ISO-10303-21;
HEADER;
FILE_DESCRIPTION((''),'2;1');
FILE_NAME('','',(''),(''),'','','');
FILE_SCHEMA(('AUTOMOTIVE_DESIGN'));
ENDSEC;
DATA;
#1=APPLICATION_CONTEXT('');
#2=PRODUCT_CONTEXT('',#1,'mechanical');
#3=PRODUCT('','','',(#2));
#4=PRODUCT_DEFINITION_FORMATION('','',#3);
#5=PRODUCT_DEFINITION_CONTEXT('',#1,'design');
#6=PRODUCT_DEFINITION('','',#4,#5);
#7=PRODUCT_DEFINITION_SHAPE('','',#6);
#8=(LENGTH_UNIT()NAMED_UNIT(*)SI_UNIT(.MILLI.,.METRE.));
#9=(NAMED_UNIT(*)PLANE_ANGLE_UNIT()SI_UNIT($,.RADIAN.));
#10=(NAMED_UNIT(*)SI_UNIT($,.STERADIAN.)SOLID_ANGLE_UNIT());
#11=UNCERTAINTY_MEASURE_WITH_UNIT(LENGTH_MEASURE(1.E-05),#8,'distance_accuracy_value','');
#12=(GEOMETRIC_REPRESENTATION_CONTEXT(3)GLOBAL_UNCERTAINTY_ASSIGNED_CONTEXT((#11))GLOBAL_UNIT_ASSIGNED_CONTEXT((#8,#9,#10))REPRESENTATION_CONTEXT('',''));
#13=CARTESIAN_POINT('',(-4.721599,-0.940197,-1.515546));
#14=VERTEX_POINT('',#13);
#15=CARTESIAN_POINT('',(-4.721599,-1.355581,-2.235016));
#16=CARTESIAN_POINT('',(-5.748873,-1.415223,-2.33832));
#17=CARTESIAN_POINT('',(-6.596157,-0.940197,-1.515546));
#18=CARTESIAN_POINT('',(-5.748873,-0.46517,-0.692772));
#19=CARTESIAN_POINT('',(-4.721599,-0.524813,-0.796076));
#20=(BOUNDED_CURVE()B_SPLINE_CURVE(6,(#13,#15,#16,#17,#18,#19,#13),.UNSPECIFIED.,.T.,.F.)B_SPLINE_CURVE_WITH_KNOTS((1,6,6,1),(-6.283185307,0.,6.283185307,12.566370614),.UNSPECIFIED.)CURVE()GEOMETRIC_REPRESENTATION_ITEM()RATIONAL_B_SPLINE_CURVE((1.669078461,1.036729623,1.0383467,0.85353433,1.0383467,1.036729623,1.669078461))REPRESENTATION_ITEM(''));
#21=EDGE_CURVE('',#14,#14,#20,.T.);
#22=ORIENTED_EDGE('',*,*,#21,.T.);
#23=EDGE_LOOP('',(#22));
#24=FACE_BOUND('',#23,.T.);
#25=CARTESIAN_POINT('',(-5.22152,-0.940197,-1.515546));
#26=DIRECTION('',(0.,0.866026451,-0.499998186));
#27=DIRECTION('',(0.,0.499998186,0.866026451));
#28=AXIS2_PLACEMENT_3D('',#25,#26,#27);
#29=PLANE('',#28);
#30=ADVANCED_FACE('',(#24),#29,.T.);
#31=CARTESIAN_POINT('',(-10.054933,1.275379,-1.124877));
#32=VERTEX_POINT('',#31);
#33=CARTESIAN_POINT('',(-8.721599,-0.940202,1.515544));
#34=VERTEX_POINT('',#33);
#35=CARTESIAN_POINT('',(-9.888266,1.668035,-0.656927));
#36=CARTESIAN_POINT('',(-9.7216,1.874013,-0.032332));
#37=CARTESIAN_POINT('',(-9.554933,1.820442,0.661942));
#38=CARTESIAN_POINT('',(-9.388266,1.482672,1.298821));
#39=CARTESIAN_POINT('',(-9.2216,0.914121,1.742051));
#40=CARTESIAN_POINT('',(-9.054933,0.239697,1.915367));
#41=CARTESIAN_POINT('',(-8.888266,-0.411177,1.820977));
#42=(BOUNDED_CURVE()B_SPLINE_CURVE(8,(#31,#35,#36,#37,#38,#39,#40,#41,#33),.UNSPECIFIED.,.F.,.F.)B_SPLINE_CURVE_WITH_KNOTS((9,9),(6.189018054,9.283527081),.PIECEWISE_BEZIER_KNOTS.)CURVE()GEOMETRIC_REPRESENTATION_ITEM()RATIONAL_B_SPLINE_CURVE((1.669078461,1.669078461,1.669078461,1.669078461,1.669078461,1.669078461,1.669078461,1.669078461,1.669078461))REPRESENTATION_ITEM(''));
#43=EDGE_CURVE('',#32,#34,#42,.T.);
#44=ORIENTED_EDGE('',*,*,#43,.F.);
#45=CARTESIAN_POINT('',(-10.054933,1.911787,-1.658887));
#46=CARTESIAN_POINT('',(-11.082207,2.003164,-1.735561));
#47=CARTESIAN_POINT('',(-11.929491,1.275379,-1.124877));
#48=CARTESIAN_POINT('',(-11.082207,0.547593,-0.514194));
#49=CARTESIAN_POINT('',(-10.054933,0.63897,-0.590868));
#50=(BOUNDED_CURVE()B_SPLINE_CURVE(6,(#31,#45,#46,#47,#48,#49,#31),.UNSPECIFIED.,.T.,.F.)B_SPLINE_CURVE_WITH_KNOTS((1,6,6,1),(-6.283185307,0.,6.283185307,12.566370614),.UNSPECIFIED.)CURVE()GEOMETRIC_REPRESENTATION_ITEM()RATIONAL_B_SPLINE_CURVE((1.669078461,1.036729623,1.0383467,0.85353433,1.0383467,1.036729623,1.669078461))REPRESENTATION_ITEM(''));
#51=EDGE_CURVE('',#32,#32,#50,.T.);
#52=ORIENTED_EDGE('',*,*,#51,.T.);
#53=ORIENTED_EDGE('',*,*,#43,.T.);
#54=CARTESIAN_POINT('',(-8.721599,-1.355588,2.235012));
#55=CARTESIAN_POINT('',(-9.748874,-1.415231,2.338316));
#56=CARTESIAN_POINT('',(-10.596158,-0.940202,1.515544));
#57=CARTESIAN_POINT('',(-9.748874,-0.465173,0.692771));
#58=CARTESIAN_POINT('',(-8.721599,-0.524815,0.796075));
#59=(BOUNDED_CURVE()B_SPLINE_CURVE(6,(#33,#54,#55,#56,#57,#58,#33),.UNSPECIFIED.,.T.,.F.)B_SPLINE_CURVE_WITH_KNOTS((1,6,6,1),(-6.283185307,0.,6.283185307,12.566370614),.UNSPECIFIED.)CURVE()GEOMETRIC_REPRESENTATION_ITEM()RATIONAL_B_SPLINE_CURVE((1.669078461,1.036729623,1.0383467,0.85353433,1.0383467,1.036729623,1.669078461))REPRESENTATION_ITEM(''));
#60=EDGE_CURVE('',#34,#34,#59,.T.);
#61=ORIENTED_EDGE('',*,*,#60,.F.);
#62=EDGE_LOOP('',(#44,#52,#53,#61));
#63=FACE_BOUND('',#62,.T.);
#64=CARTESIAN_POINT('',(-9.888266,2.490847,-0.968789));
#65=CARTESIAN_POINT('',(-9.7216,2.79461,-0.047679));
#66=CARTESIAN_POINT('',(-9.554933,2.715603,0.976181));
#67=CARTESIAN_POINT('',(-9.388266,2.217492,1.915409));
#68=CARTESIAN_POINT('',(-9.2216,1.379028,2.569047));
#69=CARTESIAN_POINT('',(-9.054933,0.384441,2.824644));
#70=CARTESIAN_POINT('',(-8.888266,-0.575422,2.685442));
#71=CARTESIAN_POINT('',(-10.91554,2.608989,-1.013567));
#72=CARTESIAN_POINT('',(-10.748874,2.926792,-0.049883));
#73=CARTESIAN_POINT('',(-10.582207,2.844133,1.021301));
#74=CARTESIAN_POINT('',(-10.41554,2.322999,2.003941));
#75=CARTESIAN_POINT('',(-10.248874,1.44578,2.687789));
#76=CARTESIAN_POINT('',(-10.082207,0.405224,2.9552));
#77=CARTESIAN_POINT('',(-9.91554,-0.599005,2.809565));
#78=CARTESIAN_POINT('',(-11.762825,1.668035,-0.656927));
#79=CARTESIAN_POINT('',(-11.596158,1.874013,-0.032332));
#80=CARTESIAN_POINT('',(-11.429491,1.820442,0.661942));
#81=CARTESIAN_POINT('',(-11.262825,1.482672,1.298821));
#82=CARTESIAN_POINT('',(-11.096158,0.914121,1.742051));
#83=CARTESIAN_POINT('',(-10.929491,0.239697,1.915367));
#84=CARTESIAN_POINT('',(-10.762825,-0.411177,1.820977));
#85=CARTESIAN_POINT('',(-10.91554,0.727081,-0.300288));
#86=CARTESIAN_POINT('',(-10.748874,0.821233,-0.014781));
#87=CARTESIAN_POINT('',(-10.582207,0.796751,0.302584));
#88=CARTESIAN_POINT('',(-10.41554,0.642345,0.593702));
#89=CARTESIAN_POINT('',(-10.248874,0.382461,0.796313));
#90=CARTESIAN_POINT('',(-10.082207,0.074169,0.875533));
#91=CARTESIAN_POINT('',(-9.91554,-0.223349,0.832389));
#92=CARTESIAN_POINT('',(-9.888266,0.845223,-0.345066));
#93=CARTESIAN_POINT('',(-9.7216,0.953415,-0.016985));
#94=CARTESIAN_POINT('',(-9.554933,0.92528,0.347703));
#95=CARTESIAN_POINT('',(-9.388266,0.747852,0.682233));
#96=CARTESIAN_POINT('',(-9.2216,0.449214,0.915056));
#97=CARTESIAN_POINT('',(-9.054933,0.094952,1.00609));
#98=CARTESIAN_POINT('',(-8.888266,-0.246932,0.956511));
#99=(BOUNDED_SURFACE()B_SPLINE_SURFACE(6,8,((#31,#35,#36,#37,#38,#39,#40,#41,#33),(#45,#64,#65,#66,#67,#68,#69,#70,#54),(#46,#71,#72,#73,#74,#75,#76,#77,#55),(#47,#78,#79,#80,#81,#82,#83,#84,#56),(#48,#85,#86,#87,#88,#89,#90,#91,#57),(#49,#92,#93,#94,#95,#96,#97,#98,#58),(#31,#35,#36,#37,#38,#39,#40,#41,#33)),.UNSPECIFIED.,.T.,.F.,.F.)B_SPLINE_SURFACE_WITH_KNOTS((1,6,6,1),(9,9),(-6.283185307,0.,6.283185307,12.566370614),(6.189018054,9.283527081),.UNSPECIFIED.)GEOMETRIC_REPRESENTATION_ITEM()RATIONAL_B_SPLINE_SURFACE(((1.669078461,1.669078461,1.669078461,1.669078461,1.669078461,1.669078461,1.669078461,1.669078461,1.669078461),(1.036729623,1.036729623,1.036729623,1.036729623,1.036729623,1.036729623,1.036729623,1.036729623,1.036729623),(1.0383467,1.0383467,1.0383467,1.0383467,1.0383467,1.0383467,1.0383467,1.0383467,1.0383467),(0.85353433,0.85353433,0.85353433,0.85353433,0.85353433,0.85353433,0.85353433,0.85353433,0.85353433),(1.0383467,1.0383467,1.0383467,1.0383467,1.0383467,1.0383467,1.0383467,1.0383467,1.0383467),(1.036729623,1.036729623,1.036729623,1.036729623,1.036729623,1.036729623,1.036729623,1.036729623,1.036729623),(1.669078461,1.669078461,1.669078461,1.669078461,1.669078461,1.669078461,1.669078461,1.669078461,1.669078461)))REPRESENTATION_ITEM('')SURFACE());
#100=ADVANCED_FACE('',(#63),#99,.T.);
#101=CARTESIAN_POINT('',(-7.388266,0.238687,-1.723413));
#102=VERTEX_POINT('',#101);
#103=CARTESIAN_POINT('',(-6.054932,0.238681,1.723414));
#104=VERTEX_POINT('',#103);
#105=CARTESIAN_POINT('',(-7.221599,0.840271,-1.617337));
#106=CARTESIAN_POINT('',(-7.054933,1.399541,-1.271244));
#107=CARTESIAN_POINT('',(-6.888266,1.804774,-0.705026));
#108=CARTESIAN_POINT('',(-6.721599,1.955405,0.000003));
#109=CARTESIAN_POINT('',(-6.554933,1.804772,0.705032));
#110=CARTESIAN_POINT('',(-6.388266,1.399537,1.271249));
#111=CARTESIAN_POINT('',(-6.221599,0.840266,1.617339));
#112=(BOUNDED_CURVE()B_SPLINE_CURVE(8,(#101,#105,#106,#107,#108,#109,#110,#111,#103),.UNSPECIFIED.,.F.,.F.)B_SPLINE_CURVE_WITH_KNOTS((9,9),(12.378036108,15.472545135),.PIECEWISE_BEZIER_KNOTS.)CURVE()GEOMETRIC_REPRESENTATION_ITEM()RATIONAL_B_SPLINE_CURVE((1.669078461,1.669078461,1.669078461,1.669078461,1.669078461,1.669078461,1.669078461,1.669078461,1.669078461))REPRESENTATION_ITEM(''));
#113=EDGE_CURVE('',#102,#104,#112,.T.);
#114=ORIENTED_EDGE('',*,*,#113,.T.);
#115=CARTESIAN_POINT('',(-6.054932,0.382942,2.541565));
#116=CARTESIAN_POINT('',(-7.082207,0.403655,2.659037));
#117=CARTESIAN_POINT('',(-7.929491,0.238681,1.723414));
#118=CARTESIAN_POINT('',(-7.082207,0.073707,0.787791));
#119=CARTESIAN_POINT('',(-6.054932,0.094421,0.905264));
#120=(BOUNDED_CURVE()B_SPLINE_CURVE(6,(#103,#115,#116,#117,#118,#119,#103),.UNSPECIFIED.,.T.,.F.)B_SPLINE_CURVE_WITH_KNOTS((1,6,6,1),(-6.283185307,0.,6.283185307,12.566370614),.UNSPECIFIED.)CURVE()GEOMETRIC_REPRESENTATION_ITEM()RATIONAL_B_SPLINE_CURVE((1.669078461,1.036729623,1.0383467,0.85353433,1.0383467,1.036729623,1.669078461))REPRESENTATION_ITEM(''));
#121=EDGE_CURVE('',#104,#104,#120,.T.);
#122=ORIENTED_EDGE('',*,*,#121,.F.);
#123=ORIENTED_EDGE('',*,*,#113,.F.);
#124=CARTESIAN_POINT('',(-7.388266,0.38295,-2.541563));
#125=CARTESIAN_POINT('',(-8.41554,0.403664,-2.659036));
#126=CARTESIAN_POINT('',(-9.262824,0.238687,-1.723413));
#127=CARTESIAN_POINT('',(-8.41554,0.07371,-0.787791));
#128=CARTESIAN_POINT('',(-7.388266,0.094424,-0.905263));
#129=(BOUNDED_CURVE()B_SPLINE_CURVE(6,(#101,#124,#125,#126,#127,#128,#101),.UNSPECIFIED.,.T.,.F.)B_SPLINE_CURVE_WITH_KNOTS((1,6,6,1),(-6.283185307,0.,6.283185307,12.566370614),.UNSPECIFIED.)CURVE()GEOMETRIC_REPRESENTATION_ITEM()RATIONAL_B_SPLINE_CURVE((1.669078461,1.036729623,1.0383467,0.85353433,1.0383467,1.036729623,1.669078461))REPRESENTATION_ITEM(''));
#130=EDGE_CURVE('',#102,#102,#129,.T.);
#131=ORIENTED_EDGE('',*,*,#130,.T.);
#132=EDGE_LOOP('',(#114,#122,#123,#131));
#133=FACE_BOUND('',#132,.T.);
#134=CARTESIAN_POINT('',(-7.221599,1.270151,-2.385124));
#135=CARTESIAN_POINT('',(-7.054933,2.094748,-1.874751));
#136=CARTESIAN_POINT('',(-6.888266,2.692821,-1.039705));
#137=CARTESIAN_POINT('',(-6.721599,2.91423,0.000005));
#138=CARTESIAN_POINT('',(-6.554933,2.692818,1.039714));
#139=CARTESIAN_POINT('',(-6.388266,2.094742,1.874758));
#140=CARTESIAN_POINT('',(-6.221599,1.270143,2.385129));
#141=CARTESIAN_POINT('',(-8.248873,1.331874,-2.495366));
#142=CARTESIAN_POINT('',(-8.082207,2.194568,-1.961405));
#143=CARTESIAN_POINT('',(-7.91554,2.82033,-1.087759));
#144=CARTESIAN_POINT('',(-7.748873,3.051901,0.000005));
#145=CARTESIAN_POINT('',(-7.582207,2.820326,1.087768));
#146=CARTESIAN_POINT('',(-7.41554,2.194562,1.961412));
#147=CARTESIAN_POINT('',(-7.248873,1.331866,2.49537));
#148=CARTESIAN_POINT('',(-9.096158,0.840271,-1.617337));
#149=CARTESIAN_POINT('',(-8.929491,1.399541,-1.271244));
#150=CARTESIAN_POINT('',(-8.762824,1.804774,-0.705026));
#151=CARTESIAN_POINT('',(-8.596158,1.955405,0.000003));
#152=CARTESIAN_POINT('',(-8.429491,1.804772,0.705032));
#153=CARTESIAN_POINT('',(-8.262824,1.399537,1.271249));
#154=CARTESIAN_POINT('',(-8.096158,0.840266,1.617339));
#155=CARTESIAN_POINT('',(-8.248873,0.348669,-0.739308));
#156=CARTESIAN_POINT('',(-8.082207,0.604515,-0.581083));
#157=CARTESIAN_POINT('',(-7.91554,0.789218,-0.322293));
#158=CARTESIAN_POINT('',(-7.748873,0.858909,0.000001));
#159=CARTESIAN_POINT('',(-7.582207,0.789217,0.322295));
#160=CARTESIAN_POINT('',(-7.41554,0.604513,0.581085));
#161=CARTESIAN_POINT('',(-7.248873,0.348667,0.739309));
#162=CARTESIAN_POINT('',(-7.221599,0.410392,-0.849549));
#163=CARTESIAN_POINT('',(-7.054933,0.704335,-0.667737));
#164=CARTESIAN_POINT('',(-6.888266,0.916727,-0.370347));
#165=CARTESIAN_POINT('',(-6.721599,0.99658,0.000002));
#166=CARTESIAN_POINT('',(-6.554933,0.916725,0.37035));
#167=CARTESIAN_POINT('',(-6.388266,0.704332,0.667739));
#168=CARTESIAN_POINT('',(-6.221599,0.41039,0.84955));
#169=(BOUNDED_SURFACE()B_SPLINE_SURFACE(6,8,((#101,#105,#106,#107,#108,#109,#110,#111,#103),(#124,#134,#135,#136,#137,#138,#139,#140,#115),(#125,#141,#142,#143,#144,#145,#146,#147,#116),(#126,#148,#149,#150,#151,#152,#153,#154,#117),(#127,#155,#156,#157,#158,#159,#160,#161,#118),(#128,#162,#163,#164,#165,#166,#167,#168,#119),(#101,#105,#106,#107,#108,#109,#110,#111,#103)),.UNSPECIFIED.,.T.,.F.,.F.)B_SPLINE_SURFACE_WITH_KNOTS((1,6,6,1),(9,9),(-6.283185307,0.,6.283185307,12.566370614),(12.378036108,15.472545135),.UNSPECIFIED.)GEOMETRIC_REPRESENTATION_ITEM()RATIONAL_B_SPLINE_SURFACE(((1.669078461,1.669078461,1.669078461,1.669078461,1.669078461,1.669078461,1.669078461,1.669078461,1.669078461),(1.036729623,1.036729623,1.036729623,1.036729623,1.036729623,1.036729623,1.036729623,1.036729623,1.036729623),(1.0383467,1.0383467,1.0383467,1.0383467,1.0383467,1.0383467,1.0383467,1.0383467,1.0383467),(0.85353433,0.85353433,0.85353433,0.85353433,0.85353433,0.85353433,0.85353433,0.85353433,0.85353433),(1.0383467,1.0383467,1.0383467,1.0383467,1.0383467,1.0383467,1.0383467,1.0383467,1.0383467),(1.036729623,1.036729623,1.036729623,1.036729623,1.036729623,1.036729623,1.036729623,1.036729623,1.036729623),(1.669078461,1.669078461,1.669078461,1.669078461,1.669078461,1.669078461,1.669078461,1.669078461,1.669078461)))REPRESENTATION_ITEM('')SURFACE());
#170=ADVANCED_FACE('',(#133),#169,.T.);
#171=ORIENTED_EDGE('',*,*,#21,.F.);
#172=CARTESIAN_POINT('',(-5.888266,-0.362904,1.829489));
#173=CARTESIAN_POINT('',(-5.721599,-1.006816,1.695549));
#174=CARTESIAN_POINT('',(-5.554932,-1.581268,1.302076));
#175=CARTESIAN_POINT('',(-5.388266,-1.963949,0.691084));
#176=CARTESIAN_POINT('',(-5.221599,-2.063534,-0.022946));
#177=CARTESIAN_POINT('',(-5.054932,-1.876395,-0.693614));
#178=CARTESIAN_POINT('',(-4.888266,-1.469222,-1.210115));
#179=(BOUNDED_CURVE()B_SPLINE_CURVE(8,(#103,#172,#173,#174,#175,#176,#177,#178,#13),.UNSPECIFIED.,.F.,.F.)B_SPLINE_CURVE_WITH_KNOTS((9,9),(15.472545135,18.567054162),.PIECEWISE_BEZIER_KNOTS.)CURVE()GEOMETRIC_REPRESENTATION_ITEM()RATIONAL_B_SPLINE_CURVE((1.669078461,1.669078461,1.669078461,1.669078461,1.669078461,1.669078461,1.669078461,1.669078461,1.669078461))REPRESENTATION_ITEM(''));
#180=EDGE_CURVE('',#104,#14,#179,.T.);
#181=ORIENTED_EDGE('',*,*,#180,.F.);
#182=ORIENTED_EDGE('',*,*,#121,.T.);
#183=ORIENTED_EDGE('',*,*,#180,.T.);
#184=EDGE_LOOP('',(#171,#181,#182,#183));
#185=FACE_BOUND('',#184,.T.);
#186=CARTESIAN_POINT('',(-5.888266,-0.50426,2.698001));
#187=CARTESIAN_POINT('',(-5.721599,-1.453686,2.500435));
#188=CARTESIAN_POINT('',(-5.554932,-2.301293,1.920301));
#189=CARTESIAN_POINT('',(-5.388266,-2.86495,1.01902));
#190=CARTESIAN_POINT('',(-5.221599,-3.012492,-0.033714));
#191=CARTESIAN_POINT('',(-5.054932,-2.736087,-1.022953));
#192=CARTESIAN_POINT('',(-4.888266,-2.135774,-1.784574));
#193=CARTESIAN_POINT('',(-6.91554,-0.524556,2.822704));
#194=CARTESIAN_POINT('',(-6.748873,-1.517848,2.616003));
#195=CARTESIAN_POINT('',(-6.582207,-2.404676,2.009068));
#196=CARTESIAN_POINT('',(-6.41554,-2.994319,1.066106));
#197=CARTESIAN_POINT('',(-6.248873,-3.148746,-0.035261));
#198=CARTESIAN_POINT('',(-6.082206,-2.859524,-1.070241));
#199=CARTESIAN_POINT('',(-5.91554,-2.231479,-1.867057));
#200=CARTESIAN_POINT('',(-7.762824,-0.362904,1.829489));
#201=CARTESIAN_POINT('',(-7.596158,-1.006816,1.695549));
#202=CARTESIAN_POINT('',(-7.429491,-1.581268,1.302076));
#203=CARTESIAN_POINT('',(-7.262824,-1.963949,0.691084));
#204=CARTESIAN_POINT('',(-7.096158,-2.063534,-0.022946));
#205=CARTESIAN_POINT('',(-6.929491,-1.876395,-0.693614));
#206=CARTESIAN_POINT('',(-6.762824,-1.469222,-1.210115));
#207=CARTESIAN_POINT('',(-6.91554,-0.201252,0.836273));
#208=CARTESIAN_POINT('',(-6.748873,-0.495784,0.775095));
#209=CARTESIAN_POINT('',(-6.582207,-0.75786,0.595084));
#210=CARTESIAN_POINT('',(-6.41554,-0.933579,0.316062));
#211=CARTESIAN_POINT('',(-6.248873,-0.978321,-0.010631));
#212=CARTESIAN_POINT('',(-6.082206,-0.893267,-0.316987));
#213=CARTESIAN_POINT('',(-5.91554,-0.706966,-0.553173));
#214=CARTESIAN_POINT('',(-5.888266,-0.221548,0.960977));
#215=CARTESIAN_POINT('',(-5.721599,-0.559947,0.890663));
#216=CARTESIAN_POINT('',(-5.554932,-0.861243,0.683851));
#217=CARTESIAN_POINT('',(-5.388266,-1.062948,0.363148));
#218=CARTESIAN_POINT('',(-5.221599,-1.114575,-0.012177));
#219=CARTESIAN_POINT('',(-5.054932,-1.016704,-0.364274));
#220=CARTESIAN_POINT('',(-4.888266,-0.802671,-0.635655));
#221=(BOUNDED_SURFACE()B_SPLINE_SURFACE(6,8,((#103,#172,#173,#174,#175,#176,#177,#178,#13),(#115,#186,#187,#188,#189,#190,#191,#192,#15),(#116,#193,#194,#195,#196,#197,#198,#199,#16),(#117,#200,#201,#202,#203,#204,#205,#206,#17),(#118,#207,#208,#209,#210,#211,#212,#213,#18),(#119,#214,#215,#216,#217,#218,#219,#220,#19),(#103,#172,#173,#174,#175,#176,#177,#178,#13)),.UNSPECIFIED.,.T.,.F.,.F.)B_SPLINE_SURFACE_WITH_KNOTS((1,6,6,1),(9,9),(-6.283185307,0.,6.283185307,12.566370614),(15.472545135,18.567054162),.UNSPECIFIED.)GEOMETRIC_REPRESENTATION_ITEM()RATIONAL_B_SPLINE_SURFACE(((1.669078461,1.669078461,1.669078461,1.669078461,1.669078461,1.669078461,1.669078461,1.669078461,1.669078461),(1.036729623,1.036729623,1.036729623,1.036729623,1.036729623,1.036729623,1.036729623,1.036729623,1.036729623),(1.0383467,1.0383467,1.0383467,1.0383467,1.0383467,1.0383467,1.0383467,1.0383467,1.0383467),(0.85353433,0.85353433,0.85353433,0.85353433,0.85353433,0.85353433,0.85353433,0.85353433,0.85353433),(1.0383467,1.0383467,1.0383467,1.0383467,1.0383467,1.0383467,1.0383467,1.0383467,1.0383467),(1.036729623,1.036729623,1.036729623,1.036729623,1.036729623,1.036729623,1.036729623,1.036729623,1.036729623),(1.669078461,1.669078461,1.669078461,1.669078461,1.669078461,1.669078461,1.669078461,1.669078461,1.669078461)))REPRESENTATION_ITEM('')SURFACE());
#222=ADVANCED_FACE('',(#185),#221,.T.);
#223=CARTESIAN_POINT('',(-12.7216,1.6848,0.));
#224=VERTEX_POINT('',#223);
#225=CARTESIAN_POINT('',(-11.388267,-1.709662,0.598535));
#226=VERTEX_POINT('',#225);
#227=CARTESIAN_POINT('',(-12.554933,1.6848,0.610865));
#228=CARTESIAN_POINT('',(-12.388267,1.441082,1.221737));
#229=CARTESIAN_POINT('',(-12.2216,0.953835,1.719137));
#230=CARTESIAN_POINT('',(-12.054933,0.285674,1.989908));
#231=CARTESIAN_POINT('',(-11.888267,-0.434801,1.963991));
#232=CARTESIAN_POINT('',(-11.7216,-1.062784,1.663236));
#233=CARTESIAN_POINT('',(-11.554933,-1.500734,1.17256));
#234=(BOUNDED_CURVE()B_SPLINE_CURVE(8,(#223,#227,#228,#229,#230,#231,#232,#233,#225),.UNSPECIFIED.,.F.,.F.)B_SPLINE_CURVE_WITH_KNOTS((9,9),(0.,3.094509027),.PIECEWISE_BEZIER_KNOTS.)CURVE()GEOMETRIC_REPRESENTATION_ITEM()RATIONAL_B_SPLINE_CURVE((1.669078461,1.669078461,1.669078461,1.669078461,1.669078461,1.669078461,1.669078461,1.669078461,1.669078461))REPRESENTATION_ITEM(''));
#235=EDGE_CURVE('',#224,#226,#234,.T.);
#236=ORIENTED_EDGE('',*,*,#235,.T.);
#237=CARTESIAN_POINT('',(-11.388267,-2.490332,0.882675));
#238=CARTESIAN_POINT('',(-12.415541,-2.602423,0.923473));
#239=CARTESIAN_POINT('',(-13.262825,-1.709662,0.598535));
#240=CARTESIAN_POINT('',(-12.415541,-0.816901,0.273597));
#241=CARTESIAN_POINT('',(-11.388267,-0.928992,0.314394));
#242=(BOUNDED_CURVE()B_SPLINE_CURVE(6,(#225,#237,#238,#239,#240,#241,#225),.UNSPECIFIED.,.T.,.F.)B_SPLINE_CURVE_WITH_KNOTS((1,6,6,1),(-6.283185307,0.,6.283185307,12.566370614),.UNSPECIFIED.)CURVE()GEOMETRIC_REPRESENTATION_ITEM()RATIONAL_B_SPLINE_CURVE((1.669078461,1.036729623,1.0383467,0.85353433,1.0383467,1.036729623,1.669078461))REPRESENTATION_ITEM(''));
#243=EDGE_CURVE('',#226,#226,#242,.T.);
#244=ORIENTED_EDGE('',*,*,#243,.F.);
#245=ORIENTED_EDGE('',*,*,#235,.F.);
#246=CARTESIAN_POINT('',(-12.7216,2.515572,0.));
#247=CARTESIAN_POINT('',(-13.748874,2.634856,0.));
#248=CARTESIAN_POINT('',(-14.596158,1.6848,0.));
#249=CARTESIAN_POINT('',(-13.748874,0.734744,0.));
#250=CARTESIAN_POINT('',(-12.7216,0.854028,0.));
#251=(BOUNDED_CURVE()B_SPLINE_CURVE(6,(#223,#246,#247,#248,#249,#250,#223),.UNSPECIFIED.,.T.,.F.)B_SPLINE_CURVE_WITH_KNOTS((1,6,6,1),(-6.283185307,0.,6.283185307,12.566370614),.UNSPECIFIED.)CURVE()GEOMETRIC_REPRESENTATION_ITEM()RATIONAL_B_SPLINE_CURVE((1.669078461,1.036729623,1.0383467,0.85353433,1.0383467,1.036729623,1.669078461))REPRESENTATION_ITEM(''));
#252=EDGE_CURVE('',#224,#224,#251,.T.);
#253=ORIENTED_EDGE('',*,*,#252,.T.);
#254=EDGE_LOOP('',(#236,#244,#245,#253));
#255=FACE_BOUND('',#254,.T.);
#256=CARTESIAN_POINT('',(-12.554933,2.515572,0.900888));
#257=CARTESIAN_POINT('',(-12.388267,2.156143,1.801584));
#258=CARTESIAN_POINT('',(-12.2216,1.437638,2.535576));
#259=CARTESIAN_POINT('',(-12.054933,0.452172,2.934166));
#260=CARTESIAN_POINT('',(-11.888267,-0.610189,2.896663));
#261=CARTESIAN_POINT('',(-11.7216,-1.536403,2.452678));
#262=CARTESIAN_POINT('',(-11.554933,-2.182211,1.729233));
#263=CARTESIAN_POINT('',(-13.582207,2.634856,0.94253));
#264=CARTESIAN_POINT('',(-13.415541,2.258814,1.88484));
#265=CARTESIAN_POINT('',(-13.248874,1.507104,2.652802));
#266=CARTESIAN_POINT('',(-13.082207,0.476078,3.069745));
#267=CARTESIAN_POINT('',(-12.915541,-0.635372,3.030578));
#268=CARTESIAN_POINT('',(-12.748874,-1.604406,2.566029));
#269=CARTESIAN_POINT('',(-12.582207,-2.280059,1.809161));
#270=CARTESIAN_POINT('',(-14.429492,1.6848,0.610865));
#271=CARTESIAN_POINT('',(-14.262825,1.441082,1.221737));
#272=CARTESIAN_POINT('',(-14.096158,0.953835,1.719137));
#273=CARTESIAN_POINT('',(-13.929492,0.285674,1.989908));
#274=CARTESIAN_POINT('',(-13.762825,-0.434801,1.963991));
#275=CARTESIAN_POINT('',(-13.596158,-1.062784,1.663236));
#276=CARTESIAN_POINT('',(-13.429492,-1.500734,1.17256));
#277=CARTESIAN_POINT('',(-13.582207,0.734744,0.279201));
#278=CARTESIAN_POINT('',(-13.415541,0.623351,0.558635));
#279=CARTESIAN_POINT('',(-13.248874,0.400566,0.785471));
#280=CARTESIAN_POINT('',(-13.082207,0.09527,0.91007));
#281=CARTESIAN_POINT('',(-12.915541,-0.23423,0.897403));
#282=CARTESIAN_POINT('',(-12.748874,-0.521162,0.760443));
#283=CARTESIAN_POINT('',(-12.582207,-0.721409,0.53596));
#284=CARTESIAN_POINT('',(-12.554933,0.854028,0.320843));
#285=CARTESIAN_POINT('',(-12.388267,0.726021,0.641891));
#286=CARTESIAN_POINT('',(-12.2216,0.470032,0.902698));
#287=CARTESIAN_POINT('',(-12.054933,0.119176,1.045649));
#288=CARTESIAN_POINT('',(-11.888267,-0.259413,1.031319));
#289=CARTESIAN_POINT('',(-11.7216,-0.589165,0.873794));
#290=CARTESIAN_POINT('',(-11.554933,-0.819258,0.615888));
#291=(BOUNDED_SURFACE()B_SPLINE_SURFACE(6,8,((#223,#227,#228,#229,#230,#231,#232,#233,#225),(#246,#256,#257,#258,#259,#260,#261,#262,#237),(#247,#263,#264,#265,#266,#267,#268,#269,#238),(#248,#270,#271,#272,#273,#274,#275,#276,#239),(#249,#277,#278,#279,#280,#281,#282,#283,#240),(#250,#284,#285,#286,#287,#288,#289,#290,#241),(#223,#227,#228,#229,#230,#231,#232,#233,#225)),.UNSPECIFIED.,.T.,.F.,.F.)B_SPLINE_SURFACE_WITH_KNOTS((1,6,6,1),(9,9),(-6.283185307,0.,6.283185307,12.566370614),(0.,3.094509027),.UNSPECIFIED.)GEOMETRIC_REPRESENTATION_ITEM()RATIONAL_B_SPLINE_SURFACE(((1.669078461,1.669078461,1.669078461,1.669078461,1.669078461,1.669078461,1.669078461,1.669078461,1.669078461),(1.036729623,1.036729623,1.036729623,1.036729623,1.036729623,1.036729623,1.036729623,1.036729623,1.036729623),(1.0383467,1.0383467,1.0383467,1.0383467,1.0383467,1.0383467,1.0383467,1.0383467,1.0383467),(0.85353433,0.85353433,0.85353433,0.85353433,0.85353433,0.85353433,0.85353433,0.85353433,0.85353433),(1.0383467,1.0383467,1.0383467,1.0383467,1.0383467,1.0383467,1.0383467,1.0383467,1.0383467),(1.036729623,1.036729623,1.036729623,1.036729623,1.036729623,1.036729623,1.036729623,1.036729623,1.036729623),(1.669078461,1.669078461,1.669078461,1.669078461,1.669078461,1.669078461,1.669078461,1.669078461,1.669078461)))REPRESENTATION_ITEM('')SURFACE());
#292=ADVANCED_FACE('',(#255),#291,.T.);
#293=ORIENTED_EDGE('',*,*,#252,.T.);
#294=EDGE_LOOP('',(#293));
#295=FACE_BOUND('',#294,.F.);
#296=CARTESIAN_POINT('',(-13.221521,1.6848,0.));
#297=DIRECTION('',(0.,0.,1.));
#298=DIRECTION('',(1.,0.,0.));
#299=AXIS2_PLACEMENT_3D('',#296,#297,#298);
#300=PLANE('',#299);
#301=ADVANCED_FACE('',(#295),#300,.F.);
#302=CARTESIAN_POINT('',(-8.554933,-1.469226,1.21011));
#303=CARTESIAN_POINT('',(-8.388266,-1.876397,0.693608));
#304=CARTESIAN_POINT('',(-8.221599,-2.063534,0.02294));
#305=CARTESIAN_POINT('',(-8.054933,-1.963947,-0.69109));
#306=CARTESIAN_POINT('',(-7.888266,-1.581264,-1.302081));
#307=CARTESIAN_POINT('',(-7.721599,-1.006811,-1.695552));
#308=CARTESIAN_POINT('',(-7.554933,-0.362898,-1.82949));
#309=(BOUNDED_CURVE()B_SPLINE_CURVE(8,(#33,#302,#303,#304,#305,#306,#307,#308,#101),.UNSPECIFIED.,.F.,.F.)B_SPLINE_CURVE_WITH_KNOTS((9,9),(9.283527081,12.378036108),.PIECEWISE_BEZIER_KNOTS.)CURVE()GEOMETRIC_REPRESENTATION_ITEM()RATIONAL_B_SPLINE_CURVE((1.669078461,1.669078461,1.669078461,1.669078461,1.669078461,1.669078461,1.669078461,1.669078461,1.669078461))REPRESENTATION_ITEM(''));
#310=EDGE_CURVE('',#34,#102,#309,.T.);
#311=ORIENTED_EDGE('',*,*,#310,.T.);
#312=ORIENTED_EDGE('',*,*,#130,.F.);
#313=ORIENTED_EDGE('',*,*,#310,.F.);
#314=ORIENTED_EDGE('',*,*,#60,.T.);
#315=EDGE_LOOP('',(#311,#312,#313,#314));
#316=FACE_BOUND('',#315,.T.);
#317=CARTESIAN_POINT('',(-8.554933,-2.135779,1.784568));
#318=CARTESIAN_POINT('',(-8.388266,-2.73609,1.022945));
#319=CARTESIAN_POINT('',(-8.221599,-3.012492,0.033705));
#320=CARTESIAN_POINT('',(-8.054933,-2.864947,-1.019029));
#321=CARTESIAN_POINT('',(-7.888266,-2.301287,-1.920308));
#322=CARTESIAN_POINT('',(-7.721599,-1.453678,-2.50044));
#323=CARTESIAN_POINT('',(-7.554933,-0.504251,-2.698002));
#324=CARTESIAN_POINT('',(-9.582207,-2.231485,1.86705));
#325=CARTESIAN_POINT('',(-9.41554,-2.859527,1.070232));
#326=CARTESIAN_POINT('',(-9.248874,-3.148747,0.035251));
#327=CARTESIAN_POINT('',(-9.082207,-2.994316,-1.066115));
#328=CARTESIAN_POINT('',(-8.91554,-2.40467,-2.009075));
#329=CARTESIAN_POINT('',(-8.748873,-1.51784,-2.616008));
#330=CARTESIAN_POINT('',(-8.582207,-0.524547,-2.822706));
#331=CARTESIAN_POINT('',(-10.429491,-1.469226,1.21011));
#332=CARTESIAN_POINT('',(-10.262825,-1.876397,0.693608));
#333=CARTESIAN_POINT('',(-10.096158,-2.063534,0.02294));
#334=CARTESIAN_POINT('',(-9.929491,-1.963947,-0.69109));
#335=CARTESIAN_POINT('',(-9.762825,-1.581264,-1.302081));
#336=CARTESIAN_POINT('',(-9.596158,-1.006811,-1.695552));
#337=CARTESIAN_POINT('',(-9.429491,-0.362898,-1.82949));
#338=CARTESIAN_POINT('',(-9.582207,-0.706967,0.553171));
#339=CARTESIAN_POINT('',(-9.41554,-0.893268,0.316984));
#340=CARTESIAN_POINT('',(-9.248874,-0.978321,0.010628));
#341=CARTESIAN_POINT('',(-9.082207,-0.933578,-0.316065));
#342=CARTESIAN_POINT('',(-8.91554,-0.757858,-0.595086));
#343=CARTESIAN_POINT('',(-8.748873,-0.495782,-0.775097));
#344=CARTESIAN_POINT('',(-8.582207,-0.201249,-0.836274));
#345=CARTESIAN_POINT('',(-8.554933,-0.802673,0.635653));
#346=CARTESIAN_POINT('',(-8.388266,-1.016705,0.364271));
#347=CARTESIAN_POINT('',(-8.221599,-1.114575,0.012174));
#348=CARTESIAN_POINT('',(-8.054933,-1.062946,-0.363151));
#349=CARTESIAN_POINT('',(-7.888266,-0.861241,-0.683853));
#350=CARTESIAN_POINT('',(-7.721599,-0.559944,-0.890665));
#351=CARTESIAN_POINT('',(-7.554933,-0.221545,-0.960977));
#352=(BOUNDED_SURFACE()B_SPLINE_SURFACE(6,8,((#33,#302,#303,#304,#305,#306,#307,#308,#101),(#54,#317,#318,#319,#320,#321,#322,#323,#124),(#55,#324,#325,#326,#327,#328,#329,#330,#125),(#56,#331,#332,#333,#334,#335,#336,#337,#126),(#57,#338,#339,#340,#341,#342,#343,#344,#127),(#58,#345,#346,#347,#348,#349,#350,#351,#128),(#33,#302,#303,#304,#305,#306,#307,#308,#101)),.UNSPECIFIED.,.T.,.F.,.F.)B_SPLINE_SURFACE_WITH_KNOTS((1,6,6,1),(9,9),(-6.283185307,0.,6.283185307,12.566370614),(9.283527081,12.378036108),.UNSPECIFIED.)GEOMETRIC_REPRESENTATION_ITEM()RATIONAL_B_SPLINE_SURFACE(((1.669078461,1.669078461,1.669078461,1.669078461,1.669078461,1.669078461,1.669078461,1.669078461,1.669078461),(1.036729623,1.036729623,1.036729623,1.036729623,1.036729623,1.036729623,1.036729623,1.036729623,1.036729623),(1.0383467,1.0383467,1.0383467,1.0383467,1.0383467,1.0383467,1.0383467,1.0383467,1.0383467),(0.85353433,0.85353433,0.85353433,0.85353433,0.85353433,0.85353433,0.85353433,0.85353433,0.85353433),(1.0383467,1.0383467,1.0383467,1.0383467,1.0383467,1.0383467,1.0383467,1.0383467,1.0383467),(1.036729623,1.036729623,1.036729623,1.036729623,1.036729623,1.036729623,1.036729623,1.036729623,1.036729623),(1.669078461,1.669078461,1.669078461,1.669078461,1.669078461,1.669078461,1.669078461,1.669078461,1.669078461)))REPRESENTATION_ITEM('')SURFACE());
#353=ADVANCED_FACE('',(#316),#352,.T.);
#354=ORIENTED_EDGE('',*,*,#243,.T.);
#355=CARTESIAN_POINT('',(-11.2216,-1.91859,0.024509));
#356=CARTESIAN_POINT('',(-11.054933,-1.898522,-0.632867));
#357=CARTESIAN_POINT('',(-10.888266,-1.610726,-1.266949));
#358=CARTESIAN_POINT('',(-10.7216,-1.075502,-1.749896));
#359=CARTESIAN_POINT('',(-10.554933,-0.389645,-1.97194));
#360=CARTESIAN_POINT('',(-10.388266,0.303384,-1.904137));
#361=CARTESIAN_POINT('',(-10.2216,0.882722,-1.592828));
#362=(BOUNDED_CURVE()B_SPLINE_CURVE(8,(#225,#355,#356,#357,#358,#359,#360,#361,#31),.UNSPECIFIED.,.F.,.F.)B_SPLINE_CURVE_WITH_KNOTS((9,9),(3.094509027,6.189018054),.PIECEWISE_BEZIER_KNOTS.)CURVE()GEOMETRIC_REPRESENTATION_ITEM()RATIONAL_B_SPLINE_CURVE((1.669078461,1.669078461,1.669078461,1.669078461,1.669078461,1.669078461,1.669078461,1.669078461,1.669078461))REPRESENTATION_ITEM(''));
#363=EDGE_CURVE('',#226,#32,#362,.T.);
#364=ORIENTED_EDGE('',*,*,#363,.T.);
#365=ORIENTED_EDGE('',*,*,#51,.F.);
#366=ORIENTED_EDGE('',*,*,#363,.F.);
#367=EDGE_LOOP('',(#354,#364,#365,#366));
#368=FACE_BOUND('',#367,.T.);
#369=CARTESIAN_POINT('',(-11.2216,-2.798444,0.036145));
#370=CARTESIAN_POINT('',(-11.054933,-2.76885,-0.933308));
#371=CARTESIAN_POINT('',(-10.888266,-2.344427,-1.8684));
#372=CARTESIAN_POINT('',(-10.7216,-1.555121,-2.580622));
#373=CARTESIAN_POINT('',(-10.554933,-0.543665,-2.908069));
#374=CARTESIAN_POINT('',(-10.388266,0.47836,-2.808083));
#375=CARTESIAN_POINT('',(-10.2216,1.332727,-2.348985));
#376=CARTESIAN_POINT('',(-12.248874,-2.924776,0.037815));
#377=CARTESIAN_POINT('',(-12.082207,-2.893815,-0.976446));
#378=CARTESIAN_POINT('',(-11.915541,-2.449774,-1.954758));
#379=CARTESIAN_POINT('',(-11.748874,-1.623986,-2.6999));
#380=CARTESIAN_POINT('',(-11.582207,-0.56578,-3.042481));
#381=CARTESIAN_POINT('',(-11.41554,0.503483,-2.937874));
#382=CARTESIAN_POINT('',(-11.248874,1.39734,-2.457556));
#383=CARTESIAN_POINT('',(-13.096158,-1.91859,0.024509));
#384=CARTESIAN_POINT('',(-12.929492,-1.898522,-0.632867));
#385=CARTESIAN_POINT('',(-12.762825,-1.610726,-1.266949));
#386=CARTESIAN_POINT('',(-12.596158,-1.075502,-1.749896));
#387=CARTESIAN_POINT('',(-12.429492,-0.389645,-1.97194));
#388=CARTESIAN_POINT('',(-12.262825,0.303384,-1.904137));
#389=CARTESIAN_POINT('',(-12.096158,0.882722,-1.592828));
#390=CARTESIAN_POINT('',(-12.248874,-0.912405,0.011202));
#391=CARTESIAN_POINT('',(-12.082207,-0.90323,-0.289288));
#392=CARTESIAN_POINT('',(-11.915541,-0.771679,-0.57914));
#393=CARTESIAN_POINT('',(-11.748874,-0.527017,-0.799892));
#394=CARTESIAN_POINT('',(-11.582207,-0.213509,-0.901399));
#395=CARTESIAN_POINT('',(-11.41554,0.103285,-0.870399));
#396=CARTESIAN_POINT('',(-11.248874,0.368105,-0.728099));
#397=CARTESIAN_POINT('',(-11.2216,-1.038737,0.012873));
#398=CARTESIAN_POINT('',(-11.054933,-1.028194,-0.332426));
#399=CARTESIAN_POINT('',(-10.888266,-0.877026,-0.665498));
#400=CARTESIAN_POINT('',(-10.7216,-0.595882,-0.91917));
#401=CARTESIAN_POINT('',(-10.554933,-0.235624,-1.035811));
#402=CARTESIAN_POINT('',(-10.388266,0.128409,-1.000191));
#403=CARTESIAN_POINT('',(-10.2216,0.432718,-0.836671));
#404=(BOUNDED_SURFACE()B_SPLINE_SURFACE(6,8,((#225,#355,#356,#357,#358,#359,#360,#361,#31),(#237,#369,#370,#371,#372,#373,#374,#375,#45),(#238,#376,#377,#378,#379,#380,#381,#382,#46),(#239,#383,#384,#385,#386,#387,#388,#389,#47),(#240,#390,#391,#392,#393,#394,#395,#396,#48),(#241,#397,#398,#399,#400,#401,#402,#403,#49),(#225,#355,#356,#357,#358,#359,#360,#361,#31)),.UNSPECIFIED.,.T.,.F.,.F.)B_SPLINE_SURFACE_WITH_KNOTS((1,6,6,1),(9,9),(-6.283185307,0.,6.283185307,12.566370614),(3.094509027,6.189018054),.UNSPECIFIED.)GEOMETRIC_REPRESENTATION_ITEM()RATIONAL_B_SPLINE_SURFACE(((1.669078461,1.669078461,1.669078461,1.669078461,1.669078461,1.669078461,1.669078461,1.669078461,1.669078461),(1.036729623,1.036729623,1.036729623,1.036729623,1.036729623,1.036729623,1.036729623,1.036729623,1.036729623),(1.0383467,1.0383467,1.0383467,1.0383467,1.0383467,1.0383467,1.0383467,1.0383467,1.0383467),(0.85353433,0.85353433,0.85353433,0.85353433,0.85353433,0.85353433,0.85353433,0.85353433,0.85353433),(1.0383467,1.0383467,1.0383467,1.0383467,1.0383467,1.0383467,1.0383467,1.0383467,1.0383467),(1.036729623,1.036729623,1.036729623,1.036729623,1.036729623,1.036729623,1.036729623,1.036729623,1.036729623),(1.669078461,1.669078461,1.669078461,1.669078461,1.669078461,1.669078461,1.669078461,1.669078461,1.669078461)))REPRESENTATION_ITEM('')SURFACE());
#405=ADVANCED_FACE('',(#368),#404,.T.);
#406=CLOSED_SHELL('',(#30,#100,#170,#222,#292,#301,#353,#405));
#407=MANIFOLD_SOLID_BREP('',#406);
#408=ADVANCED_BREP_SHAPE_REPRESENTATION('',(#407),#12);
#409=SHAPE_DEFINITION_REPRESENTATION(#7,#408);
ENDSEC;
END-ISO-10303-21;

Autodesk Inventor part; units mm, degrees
ref_plane "YZ Plane" through (0, 0, 0) normal (1, 0, 0) x (0, 1, 0)
ref_plane "XZ Plane" through (0, 0, 0) normal (0, 1, 0) x (-1, 0, 0)
ref_plane "XY Plane" through (0, 0, 0) normal (0, 0, 1) x (1, 0, 0)
sketch "Эскиз1" plane through (0, 0, 0) normal (0, 0, 1) x (1, 0, 0)
  circle A0 centre (-13.2216, 1.6848) radius 0.5
  line L0 (-4.6945, -0.0652) -> (-13.7216, -0.0652)
  dimension "d0" = 1
  dimension "d1" = 1.75
coil "Пружина1" sketch "Эскиз1" operation add axis through (-4.6945, -0.0652, 0) along (1, 0, 0) pitch 3 turns 2.666667 hand right
properties part number "Пружина"
